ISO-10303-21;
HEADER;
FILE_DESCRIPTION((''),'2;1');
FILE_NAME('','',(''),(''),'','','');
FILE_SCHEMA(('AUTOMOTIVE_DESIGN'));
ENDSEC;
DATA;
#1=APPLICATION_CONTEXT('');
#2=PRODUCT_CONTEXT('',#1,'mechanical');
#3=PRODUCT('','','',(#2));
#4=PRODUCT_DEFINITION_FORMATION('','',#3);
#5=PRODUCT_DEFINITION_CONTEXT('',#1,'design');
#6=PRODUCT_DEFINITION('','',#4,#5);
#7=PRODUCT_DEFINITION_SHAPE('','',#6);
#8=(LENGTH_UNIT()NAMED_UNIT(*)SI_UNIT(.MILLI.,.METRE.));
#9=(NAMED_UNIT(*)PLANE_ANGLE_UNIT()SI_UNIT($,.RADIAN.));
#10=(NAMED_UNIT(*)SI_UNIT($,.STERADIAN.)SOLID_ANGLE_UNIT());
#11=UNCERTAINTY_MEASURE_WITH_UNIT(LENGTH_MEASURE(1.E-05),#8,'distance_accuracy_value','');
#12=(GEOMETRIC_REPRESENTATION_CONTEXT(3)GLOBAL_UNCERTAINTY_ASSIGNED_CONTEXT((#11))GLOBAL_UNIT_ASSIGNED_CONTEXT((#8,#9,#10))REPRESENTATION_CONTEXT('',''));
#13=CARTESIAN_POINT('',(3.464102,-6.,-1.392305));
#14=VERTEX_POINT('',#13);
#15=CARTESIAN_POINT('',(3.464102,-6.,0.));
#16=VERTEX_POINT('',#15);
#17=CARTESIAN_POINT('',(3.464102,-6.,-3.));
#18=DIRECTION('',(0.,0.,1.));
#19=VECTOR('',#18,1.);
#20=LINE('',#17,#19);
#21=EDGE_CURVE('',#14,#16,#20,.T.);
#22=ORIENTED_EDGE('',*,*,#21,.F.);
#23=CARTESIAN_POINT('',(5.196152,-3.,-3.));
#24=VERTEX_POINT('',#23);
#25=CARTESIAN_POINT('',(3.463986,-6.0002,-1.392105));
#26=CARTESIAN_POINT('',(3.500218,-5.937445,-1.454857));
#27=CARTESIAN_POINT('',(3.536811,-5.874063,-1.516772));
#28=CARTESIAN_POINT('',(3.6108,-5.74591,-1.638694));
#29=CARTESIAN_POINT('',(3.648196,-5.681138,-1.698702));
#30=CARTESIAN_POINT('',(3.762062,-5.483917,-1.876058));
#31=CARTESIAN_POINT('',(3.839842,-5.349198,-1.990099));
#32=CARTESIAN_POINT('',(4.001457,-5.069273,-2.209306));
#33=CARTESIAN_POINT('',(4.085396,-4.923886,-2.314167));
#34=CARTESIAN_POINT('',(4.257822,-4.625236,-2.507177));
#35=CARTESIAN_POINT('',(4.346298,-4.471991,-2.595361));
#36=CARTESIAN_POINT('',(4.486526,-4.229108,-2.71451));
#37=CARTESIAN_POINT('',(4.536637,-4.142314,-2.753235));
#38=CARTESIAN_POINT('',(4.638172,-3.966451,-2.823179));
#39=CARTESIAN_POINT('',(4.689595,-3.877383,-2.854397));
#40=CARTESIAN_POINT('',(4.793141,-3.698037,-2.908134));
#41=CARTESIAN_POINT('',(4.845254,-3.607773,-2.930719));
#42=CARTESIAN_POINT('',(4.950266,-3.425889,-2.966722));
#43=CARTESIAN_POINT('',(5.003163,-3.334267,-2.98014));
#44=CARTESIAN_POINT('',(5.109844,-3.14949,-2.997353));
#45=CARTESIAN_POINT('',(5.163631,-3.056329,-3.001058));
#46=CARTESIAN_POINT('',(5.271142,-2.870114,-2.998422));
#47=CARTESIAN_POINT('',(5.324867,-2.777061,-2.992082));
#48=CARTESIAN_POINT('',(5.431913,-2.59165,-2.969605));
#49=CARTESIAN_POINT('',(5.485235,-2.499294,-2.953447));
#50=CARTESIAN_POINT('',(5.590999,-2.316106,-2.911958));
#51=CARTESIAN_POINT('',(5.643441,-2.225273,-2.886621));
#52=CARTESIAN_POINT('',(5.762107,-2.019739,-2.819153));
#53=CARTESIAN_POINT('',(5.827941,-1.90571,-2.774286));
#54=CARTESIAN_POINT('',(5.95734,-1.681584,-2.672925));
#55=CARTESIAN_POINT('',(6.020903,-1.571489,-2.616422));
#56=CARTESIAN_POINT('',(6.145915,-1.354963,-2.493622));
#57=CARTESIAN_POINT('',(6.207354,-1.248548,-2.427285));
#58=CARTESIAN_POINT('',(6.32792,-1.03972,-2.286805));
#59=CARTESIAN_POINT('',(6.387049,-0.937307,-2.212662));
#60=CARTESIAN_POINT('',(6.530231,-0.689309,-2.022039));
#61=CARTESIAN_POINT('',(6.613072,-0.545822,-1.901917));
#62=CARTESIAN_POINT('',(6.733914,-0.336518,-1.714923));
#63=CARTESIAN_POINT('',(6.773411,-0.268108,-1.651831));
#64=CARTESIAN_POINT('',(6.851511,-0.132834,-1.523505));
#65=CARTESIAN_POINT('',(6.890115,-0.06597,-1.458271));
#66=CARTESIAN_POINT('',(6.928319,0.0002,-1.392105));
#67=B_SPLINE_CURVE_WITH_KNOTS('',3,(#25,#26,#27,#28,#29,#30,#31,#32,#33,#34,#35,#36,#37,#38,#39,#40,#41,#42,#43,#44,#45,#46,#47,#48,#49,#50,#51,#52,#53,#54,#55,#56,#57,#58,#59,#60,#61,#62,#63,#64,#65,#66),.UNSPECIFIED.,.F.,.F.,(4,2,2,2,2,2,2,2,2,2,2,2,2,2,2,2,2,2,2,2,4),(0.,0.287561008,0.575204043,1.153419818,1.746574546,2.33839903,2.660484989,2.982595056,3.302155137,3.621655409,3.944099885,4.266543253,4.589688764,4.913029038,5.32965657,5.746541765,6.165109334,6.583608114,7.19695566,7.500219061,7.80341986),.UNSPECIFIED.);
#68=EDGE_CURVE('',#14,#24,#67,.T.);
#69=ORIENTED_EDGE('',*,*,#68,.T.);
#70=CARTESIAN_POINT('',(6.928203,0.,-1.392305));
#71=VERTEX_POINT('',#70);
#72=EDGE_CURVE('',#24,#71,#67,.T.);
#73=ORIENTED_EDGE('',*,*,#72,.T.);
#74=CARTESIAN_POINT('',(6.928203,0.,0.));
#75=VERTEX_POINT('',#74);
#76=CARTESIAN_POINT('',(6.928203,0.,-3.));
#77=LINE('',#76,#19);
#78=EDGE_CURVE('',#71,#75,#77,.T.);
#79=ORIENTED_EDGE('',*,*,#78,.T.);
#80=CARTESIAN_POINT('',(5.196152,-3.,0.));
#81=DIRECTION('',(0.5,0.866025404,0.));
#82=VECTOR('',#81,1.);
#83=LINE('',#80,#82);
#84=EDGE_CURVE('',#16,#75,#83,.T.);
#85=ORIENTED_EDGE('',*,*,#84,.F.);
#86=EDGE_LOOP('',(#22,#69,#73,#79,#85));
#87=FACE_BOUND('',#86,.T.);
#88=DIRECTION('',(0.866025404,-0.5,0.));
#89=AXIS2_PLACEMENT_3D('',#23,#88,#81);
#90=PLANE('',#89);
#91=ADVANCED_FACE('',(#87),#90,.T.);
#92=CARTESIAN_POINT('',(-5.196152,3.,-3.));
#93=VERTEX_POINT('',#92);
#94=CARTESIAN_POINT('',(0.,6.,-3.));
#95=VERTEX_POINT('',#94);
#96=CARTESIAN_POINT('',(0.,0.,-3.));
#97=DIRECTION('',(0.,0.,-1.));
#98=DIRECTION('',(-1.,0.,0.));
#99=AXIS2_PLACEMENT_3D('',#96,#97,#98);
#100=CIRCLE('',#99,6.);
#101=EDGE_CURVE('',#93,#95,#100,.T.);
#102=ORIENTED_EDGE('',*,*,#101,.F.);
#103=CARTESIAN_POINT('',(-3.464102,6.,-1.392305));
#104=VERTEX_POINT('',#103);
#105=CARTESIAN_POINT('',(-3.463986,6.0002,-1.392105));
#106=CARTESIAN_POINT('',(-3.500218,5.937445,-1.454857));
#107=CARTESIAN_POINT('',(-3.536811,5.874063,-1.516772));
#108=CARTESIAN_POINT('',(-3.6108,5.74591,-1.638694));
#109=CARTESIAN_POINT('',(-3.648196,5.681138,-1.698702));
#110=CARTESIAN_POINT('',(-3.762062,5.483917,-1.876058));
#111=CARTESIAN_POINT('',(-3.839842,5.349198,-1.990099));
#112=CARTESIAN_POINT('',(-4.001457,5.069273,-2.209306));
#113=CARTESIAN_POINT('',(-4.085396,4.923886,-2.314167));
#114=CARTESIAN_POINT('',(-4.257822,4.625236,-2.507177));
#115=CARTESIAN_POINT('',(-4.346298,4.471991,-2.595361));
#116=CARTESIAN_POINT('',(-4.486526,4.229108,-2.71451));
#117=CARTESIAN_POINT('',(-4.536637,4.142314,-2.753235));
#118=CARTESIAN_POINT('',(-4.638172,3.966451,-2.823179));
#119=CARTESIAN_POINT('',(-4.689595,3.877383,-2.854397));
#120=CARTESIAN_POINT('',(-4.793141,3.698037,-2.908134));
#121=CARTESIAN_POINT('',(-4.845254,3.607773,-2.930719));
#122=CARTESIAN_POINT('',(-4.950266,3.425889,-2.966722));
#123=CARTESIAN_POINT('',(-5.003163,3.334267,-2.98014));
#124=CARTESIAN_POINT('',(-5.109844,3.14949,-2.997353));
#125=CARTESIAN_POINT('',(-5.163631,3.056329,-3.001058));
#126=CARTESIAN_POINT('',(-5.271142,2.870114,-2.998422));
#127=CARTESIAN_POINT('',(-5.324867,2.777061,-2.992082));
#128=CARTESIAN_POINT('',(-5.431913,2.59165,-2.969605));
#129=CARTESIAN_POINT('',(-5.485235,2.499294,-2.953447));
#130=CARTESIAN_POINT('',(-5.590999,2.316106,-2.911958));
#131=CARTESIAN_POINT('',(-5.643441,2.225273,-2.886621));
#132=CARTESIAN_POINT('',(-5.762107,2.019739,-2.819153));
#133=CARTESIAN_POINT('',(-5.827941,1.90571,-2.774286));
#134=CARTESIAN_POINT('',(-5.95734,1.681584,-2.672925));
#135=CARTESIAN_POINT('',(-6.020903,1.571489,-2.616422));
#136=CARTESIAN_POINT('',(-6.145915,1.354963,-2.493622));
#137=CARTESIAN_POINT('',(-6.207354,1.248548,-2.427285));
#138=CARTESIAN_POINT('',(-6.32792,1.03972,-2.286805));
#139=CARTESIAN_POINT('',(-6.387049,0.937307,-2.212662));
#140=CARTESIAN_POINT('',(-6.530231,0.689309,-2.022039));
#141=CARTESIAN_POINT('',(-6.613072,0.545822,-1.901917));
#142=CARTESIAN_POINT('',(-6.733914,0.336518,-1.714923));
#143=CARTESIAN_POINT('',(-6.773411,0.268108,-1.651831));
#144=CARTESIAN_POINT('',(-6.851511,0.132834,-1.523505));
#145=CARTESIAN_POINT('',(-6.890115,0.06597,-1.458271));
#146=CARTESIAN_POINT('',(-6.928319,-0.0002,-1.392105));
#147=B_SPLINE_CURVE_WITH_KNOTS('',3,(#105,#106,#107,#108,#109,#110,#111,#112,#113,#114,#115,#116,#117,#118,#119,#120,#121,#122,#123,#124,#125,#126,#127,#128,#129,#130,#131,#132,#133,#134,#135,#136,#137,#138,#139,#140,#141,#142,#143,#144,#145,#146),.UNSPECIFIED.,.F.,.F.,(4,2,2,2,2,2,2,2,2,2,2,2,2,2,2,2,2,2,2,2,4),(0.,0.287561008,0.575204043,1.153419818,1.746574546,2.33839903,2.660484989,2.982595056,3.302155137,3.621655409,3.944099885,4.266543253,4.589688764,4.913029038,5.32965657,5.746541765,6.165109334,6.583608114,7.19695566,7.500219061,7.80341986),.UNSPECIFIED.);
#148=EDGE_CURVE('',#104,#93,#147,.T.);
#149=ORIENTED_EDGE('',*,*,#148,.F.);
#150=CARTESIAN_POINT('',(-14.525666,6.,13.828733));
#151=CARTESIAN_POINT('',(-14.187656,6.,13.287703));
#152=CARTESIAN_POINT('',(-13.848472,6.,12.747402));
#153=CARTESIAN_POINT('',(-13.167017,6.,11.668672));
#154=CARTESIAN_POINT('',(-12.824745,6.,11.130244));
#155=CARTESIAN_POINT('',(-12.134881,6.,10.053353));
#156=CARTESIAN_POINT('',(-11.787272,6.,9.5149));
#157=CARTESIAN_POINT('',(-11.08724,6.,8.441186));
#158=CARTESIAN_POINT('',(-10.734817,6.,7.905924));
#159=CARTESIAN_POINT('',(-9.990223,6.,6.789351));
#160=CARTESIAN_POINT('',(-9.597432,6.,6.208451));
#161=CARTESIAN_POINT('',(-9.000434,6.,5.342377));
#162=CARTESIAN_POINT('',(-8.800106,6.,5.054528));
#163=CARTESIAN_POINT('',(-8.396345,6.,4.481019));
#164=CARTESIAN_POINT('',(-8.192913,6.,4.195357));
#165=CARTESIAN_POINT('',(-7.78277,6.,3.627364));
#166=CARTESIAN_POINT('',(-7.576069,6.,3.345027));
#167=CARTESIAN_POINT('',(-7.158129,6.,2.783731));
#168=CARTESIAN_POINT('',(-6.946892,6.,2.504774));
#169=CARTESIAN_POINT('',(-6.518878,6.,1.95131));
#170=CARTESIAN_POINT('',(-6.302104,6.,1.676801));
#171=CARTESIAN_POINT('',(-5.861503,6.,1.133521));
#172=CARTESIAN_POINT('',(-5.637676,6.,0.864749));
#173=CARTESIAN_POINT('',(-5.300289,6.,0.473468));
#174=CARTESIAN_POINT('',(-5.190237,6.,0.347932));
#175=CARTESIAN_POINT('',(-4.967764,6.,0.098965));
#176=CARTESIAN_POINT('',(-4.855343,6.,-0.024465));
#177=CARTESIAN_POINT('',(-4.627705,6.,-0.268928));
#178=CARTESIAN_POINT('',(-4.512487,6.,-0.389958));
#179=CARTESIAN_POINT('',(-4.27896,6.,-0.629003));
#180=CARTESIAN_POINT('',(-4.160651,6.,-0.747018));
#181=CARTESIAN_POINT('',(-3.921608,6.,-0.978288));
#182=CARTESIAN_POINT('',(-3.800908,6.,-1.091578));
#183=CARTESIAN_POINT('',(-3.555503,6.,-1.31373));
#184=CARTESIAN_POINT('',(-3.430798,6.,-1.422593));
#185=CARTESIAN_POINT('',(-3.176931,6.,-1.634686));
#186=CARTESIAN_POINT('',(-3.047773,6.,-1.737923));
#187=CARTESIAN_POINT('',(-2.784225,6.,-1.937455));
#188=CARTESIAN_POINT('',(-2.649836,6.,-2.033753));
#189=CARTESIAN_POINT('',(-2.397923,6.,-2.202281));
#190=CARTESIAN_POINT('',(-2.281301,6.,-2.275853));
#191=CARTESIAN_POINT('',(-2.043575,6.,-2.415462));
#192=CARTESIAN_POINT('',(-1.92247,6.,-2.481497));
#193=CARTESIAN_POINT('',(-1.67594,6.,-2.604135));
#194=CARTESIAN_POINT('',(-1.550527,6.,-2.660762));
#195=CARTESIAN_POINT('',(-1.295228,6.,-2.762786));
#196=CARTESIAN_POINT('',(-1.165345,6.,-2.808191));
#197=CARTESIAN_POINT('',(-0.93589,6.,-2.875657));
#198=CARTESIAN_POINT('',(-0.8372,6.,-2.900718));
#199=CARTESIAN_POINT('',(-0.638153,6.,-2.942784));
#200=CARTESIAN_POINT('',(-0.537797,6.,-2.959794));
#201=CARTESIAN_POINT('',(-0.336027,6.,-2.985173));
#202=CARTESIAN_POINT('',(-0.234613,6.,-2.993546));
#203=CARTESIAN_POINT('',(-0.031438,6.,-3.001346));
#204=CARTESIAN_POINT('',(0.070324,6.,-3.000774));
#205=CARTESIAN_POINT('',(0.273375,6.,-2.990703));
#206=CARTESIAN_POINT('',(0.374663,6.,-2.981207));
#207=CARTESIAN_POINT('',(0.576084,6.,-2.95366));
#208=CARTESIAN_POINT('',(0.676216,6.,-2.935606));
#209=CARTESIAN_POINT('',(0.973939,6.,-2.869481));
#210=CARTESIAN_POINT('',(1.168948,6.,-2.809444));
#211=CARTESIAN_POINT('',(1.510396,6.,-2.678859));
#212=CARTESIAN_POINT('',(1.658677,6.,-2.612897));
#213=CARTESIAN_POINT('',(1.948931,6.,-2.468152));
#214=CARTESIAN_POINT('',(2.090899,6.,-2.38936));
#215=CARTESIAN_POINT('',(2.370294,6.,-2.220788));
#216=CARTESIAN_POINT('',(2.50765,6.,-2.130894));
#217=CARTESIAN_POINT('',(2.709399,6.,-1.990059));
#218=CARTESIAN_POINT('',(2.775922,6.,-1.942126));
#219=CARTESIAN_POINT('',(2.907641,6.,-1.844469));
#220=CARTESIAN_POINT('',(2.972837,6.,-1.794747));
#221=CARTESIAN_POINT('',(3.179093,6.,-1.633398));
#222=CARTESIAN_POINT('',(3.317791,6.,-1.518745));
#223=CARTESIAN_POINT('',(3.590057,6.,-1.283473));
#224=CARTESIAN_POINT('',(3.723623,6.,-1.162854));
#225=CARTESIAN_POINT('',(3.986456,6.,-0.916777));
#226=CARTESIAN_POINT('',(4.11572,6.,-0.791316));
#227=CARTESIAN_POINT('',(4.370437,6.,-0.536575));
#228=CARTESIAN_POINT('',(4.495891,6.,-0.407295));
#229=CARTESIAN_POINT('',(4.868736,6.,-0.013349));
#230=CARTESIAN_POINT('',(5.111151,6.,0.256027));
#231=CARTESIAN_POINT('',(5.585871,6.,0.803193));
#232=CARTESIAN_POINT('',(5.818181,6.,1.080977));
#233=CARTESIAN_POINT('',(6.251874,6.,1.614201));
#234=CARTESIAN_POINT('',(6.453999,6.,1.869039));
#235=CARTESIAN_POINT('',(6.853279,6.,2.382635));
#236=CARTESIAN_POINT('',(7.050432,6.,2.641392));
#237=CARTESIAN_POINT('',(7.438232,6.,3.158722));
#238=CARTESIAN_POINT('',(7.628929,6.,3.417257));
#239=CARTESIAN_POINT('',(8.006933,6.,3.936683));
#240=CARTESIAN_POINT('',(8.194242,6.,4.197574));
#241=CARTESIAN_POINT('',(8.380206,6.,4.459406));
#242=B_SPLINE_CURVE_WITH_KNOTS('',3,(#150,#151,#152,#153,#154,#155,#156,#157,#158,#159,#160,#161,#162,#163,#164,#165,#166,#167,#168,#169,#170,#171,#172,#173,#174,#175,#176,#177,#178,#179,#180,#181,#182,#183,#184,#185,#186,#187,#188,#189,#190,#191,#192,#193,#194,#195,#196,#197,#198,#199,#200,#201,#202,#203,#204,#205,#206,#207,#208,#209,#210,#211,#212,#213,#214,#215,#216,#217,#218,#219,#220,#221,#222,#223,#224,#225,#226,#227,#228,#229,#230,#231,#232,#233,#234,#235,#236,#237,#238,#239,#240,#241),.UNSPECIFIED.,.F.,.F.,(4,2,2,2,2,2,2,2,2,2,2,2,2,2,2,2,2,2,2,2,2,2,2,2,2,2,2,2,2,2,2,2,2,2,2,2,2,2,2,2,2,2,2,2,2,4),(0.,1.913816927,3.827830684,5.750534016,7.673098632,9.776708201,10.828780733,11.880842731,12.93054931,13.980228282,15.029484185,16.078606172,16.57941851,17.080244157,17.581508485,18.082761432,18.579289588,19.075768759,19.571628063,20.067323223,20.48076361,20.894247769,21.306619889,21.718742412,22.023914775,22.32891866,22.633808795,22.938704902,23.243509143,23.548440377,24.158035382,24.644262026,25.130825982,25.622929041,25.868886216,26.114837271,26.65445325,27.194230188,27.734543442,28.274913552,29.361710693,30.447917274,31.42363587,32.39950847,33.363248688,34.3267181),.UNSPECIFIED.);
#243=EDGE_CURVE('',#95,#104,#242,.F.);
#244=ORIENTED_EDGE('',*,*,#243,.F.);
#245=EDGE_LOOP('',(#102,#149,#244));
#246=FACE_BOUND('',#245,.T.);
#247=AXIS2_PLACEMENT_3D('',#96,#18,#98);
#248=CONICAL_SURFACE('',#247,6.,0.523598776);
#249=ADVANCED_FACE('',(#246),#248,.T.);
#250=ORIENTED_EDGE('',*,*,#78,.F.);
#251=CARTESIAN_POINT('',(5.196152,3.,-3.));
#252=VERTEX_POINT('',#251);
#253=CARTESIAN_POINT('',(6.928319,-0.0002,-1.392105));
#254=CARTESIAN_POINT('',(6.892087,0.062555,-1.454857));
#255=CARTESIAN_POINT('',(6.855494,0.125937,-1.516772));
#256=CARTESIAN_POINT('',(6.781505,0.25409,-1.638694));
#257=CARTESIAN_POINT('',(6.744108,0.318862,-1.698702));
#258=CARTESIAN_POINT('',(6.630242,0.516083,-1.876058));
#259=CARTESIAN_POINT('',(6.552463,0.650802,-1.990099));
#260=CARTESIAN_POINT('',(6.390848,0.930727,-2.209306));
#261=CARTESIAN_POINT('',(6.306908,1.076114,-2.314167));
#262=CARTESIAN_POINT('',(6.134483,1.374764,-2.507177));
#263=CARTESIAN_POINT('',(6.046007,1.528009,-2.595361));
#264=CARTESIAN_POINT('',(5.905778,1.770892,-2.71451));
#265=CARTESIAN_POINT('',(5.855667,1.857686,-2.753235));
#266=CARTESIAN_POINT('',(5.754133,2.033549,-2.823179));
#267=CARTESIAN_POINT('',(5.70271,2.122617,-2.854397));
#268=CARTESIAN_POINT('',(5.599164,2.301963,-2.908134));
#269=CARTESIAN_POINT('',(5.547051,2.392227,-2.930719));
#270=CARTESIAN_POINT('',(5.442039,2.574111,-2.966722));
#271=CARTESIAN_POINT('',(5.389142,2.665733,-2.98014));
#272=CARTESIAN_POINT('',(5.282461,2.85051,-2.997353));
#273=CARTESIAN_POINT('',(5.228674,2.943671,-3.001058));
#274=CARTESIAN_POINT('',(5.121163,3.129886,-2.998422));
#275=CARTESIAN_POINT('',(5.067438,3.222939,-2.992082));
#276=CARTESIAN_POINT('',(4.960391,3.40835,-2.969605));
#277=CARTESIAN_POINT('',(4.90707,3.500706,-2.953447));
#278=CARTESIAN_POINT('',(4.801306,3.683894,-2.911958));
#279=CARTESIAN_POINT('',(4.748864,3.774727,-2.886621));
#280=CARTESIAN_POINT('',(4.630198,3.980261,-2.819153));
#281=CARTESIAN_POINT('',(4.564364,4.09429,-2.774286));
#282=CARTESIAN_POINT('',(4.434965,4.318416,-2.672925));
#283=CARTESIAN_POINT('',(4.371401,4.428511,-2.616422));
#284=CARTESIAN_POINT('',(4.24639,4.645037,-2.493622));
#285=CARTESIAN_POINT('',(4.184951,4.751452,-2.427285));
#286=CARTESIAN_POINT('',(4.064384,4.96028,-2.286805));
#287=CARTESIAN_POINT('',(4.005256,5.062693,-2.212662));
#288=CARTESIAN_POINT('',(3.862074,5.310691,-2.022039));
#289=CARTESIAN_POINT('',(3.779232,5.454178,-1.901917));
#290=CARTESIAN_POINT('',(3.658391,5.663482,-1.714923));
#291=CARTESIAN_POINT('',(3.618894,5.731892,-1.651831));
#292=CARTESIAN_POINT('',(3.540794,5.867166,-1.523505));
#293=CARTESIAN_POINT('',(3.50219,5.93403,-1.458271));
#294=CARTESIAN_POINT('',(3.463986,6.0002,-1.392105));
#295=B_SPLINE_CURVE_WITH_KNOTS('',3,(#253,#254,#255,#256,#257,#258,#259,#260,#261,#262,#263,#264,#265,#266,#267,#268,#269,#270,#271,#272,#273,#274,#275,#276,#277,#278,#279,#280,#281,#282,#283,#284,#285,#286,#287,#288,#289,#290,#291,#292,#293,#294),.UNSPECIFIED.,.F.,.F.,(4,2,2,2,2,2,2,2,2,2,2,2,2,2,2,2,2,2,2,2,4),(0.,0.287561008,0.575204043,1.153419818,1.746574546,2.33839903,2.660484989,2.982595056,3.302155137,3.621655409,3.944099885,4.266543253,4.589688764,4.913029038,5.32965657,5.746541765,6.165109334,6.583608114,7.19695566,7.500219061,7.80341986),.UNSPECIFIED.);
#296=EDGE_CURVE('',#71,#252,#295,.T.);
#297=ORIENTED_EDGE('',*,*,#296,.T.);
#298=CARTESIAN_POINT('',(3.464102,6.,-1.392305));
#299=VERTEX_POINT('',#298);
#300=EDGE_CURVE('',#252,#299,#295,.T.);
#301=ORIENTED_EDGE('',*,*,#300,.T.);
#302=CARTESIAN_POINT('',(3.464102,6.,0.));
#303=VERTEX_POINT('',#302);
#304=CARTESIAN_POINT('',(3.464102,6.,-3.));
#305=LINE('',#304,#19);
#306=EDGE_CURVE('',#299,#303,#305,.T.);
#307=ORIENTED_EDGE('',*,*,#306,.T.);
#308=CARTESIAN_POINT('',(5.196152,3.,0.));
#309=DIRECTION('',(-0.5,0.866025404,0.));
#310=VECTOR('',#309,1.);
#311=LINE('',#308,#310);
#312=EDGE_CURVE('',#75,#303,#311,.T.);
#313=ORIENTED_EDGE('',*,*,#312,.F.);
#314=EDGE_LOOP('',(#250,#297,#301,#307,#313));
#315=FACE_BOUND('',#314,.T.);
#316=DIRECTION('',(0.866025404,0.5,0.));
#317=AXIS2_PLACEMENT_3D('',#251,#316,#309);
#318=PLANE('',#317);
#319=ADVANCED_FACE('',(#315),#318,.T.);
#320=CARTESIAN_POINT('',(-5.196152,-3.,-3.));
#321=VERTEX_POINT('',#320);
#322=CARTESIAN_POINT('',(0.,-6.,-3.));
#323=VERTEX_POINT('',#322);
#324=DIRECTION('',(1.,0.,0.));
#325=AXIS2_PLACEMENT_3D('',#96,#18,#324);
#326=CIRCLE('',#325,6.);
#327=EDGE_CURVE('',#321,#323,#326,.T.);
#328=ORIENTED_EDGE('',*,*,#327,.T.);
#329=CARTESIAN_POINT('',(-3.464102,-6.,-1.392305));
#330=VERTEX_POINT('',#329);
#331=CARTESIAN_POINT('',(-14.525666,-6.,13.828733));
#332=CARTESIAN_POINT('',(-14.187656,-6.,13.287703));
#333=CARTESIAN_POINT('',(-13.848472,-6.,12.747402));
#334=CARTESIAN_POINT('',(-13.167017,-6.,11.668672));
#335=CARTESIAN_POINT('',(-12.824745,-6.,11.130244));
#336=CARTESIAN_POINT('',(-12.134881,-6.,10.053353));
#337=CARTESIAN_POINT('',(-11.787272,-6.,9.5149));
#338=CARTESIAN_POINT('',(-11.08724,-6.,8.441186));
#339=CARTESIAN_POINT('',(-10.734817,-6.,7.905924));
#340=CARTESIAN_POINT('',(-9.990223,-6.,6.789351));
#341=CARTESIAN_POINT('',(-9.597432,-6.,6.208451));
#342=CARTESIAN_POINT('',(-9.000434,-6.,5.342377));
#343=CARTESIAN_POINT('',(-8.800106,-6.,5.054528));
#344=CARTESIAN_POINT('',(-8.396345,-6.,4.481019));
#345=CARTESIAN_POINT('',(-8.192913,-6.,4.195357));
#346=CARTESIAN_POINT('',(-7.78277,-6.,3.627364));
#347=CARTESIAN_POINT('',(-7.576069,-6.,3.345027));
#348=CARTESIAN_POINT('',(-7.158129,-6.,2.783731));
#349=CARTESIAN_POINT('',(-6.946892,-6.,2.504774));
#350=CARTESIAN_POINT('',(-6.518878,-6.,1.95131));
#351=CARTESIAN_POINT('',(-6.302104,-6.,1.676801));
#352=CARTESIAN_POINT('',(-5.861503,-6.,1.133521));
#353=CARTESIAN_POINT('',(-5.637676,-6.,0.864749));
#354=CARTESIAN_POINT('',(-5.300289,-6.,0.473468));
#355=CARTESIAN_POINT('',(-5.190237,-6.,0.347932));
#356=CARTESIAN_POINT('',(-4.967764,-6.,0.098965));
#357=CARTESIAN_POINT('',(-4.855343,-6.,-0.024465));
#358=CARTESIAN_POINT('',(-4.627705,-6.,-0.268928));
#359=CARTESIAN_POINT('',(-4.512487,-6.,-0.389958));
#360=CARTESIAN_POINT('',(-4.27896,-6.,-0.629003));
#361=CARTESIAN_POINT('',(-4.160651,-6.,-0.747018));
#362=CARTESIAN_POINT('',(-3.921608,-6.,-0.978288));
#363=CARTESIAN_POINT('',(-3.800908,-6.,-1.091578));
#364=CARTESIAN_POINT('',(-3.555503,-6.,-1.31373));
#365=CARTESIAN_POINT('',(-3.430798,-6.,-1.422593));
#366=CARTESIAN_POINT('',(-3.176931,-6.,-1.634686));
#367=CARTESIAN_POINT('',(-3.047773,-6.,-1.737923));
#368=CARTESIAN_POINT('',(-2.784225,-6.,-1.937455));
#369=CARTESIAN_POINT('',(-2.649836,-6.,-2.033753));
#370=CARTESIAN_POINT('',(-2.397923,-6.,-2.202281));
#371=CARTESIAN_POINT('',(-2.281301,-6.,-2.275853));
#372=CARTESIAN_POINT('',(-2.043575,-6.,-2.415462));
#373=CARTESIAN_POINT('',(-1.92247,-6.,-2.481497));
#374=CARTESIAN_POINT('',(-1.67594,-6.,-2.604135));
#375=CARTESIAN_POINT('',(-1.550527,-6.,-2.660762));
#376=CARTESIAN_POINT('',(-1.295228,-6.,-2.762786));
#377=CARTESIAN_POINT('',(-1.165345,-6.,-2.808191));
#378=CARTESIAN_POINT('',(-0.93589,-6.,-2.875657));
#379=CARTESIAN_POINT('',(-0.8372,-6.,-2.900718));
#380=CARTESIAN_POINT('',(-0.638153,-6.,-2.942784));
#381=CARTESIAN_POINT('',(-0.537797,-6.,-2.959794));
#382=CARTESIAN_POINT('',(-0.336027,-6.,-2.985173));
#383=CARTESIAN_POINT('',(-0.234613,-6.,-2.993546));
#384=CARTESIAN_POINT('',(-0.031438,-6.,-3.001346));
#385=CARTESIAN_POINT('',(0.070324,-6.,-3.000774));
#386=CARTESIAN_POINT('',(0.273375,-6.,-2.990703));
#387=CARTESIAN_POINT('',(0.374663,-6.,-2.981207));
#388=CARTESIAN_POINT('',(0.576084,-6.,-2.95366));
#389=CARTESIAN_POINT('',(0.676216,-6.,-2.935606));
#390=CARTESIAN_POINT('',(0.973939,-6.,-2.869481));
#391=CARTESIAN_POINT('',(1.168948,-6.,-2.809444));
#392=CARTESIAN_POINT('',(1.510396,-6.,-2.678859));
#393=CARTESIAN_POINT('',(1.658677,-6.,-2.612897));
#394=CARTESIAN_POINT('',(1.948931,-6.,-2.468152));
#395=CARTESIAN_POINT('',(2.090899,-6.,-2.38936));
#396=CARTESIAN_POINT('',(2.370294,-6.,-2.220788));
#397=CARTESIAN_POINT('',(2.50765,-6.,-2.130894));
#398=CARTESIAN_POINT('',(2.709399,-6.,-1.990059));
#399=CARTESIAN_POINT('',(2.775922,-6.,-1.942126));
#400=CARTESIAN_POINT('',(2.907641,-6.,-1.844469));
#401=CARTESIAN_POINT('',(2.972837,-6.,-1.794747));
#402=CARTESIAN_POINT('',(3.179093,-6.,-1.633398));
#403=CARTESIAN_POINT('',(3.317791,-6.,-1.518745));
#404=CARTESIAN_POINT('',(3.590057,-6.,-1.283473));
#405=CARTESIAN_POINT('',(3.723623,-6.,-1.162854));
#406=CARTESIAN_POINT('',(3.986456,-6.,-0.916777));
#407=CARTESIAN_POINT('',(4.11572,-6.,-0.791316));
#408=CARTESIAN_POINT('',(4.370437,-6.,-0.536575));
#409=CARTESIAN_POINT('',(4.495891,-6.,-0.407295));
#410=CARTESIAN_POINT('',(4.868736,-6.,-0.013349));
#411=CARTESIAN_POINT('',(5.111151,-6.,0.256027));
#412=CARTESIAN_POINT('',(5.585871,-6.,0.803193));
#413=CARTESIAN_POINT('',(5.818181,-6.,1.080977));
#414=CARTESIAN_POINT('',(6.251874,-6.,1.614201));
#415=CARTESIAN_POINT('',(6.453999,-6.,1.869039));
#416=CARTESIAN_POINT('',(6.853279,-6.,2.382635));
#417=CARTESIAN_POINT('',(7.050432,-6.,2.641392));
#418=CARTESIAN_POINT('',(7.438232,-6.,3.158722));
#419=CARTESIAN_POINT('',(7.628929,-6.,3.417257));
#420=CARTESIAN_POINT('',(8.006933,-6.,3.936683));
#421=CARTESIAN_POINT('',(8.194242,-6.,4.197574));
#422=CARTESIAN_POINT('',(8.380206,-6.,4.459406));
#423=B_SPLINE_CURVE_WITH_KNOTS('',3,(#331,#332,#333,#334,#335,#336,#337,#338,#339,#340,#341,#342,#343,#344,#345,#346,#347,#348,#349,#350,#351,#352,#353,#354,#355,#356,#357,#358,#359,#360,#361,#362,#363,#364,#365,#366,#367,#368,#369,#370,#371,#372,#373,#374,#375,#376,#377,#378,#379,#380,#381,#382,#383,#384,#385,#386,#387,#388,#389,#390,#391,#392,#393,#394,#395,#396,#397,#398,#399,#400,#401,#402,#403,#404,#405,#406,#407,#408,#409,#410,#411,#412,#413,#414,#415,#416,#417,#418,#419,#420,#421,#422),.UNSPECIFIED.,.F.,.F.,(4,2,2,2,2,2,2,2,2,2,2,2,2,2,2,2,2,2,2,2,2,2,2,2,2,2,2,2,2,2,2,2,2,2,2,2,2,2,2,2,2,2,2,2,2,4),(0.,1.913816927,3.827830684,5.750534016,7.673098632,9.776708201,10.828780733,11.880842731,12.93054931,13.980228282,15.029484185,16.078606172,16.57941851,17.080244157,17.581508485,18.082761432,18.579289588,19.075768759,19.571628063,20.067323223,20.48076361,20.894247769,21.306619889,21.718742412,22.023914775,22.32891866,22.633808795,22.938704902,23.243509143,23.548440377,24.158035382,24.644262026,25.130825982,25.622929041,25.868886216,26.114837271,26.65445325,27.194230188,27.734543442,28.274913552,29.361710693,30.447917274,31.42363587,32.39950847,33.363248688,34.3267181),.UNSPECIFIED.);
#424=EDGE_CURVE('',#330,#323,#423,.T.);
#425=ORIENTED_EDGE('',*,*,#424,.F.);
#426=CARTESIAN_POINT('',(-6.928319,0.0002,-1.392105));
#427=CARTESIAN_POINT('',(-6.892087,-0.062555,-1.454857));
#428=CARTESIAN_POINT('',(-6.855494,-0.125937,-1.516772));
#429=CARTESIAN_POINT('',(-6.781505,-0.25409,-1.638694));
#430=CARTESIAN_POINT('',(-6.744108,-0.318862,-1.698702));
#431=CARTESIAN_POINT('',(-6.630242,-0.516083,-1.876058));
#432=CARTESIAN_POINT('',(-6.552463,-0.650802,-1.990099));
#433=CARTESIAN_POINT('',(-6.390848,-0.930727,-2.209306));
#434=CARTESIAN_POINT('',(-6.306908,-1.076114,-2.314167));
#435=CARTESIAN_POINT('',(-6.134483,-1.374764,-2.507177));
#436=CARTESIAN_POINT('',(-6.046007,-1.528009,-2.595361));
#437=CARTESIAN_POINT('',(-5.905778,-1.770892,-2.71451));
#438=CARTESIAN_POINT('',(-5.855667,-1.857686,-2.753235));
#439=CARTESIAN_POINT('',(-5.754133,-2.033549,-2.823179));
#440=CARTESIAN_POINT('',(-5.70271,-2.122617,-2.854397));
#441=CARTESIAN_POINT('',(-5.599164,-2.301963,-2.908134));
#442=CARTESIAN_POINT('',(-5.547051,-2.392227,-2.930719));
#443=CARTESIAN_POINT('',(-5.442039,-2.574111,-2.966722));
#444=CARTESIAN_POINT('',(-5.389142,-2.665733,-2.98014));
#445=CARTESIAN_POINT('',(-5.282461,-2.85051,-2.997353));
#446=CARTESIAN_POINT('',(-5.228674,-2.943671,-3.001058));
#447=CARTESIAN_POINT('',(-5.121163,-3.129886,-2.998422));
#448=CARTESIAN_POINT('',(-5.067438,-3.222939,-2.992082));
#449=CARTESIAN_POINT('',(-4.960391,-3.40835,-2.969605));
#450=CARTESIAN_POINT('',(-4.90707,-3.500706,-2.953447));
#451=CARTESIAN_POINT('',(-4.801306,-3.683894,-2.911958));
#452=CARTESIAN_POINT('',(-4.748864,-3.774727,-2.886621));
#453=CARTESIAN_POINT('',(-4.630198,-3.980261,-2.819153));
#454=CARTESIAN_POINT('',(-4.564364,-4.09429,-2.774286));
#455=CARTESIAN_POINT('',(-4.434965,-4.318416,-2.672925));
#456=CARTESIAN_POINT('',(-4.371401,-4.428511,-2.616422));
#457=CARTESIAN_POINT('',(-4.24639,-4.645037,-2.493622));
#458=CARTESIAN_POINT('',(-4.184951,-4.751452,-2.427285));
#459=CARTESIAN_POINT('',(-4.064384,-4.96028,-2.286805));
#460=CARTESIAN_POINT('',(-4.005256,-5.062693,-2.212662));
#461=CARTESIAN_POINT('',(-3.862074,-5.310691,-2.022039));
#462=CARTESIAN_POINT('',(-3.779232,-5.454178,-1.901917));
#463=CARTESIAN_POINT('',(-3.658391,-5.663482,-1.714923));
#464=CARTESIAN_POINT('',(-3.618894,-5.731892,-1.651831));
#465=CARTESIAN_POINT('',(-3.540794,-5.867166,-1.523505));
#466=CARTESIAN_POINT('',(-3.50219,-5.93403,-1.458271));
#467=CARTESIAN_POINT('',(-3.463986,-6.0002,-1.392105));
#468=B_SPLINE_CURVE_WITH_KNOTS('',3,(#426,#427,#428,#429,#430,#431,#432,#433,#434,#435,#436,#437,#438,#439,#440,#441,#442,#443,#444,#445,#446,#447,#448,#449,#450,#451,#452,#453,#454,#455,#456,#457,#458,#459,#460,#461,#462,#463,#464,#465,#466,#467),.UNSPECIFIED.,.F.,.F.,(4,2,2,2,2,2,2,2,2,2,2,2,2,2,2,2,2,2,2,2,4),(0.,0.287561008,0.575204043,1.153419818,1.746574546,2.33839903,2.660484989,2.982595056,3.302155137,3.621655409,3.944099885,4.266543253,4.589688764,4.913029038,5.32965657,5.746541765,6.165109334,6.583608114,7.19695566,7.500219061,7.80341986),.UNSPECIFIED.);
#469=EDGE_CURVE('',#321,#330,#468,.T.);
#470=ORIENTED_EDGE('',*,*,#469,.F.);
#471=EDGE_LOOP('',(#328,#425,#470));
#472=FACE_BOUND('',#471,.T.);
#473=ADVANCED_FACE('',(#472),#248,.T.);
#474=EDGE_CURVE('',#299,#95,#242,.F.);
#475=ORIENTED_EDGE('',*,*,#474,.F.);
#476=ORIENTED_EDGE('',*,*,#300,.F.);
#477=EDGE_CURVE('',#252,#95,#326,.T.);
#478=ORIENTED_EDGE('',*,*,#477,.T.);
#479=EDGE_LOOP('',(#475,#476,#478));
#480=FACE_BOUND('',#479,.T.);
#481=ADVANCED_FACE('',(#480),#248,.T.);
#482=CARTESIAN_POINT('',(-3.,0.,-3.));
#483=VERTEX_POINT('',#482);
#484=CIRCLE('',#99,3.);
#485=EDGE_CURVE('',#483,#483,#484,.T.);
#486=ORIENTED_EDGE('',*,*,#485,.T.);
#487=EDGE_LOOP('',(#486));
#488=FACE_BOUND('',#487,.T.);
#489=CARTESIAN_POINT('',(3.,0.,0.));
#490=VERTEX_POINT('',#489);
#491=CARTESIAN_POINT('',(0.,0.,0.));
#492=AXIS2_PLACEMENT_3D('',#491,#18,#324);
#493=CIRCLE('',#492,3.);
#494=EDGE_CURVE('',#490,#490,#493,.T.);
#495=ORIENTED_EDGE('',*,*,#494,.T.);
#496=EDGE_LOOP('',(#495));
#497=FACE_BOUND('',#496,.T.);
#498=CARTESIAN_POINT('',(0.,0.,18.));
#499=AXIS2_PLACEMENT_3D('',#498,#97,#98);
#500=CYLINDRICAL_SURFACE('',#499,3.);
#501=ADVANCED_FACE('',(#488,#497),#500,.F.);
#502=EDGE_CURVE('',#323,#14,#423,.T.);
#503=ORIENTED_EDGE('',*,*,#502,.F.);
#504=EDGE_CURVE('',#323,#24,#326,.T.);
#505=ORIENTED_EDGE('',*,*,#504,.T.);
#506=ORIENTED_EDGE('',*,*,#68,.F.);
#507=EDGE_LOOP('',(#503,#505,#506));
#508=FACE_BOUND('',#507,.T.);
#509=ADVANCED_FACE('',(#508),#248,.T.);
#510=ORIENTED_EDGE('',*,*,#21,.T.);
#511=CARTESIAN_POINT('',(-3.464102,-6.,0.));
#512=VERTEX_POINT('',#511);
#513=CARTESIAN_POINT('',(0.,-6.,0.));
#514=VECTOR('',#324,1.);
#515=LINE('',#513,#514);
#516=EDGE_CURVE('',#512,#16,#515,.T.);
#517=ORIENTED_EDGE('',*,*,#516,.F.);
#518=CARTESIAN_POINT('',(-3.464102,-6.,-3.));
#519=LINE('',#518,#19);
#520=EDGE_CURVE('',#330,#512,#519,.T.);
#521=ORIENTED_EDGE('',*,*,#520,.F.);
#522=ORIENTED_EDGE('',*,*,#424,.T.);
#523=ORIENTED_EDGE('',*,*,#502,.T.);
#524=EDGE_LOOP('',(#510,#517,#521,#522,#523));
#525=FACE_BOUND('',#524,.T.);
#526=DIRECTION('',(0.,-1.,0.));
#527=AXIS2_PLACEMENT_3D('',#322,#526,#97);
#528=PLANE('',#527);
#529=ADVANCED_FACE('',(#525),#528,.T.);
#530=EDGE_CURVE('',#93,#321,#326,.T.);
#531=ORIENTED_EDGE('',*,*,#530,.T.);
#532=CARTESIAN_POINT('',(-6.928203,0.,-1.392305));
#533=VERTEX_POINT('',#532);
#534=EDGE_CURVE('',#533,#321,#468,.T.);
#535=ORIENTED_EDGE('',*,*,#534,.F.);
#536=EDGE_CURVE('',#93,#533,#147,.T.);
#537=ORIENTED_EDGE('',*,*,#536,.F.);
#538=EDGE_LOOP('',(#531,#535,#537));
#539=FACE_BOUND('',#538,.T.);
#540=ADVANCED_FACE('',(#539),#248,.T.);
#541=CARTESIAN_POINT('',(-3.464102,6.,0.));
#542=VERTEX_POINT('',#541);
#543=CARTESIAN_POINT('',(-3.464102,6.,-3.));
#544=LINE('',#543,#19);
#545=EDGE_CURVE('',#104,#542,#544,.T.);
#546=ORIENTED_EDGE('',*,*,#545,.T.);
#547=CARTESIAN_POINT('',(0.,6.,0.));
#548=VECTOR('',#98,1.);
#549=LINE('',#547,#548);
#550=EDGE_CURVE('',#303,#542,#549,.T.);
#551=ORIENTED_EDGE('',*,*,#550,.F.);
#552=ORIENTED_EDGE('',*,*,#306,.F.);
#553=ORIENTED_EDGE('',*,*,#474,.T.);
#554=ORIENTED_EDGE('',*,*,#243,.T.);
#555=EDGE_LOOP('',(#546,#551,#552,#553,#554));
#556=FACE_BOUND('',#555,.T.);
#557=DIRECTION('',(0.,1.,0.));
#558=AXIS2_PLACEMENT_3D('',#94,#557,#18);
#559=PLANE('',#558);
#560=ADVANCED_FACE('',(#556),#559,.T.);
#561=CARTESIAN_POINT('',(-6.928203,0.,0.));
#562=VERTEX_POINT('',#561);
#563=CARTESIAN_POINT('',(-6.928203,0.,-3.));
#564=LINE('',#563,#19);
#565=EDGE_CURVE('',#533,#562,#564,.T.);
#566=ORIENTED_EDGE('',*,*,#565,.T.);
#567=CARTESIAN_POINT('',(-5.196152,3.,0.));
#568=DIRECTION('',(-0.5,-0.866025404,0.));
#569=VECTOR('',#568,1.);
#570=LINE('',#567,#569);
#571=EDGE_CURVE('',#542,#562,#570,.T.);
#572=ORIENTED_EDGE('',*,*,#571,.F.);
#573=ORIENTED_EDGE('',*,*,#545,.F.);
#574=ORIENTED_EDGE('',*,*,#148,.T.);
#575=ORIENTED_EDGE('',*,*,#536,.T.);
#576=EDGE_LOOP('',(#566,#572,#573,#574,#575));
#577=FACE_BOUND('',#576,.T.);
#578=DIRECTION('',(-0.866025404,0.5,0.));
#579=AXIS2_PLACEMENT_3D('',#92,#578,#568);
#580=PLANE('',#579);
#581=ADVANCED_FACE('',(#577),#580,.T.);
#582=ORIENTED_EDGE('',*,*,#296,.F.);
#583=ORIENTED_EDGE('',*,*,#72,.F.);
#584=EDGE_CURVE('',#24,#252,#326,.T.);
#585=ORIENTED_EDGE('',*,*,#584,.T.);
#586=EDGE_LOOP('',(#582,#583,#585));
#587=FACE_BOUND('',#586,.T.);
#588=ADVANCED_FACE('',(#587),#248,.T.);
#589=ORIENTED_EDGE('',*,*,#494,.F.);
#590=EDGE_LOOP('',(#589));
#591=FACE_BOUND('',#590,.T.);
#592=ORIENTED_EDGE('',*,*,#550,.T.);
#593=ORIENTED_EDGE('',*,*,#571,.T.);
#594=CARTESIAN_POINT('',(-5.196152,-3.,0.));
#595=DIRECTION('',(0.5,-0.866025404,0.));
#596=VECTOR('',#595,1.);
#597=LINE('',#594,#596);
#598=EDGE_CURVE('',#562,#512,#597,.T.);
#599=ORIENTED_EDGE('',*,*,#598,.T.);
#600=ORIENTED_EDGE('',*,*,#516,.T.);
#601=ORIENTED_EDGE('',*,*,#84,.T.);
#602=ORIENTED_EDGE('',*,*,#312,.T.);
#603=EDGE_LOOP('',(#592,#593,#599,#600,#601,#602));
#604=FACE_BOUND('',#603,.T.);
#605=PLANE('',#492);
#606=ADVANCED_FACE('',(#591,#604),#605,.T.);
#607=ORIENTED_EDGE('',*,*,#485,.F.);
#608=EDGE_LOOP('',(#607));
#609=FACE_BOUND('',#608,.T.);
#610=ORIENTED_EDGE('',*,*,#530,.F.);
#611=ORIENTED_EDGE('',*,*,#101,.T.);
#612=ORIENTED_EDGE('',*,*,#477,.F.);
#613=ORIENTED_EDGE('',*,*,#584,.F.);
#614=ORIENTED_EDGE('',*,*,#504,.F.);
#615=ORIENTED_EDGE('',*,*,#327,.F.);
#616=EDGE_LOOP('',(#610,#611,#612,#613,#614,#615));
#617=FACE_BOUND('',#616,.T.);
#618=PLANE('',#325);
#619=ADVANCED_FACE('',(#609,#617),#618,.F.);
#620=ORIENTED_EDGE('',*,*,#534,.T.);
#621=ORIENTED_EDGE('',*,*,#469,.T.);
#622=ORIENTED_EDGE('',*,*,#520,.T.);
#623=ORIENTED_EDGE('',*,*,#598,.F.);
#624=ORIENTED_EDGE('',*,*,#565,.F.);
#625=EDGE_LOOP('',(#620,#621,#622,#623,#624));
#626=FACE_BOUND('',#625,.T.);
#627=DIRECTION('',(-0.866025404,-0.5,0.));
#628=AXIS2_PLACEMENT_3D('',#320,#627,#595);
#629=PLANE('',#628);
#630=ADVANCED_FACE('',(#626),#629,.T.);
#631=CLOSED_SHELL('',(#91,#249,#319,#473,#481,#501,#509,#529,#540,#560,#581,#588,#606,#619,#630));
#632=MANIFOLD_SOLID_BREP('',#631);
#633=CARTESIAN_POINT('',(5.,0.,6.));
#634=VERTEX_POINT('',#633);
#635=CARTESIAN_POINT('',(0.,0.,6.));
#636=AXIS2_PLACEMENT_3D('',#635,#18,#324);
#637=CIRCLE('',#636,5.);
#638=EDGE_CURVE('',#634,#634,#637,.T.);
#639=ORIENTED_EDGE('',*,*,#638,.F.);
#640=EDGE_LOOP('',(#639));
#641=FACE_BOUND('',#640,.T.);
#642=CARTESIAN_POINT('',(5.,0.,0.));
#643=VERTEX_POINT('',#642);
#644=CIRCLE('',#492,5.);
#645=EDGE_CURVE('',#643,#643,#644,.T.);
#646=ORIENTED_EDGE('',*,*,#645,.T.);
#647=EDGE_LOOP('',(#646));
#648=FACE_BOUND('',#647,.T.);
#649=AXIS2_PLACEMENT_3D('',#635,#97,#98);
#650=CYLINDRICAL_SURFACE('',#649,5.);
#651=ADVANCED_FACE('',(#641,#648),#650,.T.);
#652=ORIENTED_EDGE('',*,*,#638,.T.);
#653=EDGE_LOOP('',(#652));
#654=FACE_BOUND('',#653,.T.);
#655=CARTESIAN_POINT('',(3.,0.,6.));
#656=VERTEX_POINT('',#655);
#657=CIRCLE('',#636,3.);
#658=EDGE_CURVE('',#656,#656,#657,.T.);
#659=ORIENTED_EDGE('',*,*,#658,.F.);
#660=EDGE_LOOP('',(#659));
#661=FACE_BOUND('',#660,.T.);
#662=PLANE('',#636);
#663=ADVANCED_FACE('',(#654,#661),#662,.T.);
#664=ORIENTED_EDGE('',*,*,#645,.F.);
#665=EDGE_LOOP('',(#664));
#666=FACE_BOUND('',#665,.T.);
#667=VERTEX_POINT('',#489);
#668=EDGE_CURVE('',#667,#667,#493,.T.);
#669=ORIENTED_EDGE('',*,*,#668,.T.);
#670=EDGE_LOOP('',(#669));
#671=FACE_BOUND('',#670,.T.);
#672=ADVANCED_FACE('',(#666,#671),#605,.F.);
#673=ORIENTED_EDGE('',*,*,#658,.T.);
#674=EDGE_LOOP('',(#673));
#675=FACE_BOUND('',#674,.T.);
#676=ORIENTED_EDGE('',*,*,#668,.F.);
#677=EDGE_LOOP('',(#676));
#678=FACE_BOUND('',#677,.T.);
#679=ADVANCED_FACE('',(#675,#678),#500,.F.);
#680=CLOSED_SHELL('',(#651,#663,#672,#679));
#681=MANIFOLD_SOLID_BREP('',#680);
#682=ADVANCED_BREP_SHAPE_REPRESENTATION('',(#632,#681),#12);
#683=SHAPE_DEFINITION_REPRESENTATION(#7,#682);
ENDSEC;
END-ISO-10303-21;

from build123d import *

# Parameters (mm, degrees)
SKETCH1_R           = 5
BOSS_EXTRUDE1_DEPTH = 6
BOSS_EXTRUDE2_DEPTH = 3
SKETCH2_R           = 3
CUT_EXTRUDE1_DEPTH  = 21
SKETCH4_OUTSIDE_W   = 66.706
SKETCH4_OUTSIDE_H   = 64.85
SKETCH4_OUTSIDE_R   = 6
CUT_EXTRUDE3_DEPTH  = 40.5
CUT_EXTRUDE3_DRAFT  = -30


with BuildPart() as part:
    # Sketch1 → Boss-Extrude1 (new body)
    with BuildSketch(Plane.XY):
        Circle(SKETCH1_R)
    extrude(amount=BOSS_EXTRUDE1_DEPTH)


with BuildPart() as body_2:
    # Sketch1<3> → Boss-Extrude2 (new body)
    with BuildSketch(Plane.XY):
        Polygon((3.464101615, -6), (6.92820323, 0), (3.464101615, 6), (-3.464101615, 6), (-6.92820323, 0), (-3.464101615, -6), align=None)
    extrude(amount=-BOSS_EXTRUDE2_DEPTH)


with BuildPart() as cut_extrude1_tool:
    # Sketch2 → Cut-Extrude1 (new body)
    with BuildSketch(Plane(origin=(0, 0, -3), x_dir=(-1, 0, 0), z_dir=(0, 0, -1))):
        Circle(SKETCH2_R)
    extrude(amount=-CUT_EXTRUDE1_DEPTH)


with BuildPart() as part_1:
    add(part.part)

    # Cut-Extrude1: cut by cut_extrude1_tool
    add(cut_extrude1_tool.part, mode=Mode.SUBTRACT)


with BuildPart() as body_2_1:
    add(body_2.part)

    # Cut-Extrude1: cut by cut_extrude1_tool
    add(cut_extrude1_tool.part, mode=Mode.SUBTRACT)


with BuildPart() as cut_extrude3_tool:
    # Sketch4 outside → Cut-Extrude3 (with draft: the straight prism first)
    with BuildSketch(Plane(origin=(0, 0, -3), x_dir=(-1, 0, 0), z_dir=(0, 0, -1))):
        Rectangle(SKETCH4_OUTSIDE_W, SKETCH4_OUTSIDE_H)
        Circle(SKETCH4_OUTSIDE_R, mode=Mode.SUBTRACT)
    extrude(amount=-CUT_EXTRUDE3_DEPTH)
    # Cut-Extrude3: the draft: its side faces are tilted about the plane it starts from
    cut_extrude3_sides = [cut_extrude3_tool.faces().sort_by_distance(p)[0] for p in [
        (0, -32.425, 17.25),
        (-33.353, 0, 17.25),
        (0, 32.425, 17.25),
        (33.353, 0, 17.25),
        (6, 0, 17.25),
    ]]
    draft(cut_extrude3_sides, Plane(origin=(0, 0, -3), x_dir=(-1, 0, 0), z_dir=(0, 0, -1)), CUT_EXTRUDE3_DRAFT)


with BuildPart() as body_2_2:
    add(body_2_1.part)

    # Cut-Extrude3: cut by cut_extrude3_tool
    add(cut_extrude3_tool.part, mode=Mode.SUBTRACT)


solid = Compound([part_1.part, body_2_2.part])
